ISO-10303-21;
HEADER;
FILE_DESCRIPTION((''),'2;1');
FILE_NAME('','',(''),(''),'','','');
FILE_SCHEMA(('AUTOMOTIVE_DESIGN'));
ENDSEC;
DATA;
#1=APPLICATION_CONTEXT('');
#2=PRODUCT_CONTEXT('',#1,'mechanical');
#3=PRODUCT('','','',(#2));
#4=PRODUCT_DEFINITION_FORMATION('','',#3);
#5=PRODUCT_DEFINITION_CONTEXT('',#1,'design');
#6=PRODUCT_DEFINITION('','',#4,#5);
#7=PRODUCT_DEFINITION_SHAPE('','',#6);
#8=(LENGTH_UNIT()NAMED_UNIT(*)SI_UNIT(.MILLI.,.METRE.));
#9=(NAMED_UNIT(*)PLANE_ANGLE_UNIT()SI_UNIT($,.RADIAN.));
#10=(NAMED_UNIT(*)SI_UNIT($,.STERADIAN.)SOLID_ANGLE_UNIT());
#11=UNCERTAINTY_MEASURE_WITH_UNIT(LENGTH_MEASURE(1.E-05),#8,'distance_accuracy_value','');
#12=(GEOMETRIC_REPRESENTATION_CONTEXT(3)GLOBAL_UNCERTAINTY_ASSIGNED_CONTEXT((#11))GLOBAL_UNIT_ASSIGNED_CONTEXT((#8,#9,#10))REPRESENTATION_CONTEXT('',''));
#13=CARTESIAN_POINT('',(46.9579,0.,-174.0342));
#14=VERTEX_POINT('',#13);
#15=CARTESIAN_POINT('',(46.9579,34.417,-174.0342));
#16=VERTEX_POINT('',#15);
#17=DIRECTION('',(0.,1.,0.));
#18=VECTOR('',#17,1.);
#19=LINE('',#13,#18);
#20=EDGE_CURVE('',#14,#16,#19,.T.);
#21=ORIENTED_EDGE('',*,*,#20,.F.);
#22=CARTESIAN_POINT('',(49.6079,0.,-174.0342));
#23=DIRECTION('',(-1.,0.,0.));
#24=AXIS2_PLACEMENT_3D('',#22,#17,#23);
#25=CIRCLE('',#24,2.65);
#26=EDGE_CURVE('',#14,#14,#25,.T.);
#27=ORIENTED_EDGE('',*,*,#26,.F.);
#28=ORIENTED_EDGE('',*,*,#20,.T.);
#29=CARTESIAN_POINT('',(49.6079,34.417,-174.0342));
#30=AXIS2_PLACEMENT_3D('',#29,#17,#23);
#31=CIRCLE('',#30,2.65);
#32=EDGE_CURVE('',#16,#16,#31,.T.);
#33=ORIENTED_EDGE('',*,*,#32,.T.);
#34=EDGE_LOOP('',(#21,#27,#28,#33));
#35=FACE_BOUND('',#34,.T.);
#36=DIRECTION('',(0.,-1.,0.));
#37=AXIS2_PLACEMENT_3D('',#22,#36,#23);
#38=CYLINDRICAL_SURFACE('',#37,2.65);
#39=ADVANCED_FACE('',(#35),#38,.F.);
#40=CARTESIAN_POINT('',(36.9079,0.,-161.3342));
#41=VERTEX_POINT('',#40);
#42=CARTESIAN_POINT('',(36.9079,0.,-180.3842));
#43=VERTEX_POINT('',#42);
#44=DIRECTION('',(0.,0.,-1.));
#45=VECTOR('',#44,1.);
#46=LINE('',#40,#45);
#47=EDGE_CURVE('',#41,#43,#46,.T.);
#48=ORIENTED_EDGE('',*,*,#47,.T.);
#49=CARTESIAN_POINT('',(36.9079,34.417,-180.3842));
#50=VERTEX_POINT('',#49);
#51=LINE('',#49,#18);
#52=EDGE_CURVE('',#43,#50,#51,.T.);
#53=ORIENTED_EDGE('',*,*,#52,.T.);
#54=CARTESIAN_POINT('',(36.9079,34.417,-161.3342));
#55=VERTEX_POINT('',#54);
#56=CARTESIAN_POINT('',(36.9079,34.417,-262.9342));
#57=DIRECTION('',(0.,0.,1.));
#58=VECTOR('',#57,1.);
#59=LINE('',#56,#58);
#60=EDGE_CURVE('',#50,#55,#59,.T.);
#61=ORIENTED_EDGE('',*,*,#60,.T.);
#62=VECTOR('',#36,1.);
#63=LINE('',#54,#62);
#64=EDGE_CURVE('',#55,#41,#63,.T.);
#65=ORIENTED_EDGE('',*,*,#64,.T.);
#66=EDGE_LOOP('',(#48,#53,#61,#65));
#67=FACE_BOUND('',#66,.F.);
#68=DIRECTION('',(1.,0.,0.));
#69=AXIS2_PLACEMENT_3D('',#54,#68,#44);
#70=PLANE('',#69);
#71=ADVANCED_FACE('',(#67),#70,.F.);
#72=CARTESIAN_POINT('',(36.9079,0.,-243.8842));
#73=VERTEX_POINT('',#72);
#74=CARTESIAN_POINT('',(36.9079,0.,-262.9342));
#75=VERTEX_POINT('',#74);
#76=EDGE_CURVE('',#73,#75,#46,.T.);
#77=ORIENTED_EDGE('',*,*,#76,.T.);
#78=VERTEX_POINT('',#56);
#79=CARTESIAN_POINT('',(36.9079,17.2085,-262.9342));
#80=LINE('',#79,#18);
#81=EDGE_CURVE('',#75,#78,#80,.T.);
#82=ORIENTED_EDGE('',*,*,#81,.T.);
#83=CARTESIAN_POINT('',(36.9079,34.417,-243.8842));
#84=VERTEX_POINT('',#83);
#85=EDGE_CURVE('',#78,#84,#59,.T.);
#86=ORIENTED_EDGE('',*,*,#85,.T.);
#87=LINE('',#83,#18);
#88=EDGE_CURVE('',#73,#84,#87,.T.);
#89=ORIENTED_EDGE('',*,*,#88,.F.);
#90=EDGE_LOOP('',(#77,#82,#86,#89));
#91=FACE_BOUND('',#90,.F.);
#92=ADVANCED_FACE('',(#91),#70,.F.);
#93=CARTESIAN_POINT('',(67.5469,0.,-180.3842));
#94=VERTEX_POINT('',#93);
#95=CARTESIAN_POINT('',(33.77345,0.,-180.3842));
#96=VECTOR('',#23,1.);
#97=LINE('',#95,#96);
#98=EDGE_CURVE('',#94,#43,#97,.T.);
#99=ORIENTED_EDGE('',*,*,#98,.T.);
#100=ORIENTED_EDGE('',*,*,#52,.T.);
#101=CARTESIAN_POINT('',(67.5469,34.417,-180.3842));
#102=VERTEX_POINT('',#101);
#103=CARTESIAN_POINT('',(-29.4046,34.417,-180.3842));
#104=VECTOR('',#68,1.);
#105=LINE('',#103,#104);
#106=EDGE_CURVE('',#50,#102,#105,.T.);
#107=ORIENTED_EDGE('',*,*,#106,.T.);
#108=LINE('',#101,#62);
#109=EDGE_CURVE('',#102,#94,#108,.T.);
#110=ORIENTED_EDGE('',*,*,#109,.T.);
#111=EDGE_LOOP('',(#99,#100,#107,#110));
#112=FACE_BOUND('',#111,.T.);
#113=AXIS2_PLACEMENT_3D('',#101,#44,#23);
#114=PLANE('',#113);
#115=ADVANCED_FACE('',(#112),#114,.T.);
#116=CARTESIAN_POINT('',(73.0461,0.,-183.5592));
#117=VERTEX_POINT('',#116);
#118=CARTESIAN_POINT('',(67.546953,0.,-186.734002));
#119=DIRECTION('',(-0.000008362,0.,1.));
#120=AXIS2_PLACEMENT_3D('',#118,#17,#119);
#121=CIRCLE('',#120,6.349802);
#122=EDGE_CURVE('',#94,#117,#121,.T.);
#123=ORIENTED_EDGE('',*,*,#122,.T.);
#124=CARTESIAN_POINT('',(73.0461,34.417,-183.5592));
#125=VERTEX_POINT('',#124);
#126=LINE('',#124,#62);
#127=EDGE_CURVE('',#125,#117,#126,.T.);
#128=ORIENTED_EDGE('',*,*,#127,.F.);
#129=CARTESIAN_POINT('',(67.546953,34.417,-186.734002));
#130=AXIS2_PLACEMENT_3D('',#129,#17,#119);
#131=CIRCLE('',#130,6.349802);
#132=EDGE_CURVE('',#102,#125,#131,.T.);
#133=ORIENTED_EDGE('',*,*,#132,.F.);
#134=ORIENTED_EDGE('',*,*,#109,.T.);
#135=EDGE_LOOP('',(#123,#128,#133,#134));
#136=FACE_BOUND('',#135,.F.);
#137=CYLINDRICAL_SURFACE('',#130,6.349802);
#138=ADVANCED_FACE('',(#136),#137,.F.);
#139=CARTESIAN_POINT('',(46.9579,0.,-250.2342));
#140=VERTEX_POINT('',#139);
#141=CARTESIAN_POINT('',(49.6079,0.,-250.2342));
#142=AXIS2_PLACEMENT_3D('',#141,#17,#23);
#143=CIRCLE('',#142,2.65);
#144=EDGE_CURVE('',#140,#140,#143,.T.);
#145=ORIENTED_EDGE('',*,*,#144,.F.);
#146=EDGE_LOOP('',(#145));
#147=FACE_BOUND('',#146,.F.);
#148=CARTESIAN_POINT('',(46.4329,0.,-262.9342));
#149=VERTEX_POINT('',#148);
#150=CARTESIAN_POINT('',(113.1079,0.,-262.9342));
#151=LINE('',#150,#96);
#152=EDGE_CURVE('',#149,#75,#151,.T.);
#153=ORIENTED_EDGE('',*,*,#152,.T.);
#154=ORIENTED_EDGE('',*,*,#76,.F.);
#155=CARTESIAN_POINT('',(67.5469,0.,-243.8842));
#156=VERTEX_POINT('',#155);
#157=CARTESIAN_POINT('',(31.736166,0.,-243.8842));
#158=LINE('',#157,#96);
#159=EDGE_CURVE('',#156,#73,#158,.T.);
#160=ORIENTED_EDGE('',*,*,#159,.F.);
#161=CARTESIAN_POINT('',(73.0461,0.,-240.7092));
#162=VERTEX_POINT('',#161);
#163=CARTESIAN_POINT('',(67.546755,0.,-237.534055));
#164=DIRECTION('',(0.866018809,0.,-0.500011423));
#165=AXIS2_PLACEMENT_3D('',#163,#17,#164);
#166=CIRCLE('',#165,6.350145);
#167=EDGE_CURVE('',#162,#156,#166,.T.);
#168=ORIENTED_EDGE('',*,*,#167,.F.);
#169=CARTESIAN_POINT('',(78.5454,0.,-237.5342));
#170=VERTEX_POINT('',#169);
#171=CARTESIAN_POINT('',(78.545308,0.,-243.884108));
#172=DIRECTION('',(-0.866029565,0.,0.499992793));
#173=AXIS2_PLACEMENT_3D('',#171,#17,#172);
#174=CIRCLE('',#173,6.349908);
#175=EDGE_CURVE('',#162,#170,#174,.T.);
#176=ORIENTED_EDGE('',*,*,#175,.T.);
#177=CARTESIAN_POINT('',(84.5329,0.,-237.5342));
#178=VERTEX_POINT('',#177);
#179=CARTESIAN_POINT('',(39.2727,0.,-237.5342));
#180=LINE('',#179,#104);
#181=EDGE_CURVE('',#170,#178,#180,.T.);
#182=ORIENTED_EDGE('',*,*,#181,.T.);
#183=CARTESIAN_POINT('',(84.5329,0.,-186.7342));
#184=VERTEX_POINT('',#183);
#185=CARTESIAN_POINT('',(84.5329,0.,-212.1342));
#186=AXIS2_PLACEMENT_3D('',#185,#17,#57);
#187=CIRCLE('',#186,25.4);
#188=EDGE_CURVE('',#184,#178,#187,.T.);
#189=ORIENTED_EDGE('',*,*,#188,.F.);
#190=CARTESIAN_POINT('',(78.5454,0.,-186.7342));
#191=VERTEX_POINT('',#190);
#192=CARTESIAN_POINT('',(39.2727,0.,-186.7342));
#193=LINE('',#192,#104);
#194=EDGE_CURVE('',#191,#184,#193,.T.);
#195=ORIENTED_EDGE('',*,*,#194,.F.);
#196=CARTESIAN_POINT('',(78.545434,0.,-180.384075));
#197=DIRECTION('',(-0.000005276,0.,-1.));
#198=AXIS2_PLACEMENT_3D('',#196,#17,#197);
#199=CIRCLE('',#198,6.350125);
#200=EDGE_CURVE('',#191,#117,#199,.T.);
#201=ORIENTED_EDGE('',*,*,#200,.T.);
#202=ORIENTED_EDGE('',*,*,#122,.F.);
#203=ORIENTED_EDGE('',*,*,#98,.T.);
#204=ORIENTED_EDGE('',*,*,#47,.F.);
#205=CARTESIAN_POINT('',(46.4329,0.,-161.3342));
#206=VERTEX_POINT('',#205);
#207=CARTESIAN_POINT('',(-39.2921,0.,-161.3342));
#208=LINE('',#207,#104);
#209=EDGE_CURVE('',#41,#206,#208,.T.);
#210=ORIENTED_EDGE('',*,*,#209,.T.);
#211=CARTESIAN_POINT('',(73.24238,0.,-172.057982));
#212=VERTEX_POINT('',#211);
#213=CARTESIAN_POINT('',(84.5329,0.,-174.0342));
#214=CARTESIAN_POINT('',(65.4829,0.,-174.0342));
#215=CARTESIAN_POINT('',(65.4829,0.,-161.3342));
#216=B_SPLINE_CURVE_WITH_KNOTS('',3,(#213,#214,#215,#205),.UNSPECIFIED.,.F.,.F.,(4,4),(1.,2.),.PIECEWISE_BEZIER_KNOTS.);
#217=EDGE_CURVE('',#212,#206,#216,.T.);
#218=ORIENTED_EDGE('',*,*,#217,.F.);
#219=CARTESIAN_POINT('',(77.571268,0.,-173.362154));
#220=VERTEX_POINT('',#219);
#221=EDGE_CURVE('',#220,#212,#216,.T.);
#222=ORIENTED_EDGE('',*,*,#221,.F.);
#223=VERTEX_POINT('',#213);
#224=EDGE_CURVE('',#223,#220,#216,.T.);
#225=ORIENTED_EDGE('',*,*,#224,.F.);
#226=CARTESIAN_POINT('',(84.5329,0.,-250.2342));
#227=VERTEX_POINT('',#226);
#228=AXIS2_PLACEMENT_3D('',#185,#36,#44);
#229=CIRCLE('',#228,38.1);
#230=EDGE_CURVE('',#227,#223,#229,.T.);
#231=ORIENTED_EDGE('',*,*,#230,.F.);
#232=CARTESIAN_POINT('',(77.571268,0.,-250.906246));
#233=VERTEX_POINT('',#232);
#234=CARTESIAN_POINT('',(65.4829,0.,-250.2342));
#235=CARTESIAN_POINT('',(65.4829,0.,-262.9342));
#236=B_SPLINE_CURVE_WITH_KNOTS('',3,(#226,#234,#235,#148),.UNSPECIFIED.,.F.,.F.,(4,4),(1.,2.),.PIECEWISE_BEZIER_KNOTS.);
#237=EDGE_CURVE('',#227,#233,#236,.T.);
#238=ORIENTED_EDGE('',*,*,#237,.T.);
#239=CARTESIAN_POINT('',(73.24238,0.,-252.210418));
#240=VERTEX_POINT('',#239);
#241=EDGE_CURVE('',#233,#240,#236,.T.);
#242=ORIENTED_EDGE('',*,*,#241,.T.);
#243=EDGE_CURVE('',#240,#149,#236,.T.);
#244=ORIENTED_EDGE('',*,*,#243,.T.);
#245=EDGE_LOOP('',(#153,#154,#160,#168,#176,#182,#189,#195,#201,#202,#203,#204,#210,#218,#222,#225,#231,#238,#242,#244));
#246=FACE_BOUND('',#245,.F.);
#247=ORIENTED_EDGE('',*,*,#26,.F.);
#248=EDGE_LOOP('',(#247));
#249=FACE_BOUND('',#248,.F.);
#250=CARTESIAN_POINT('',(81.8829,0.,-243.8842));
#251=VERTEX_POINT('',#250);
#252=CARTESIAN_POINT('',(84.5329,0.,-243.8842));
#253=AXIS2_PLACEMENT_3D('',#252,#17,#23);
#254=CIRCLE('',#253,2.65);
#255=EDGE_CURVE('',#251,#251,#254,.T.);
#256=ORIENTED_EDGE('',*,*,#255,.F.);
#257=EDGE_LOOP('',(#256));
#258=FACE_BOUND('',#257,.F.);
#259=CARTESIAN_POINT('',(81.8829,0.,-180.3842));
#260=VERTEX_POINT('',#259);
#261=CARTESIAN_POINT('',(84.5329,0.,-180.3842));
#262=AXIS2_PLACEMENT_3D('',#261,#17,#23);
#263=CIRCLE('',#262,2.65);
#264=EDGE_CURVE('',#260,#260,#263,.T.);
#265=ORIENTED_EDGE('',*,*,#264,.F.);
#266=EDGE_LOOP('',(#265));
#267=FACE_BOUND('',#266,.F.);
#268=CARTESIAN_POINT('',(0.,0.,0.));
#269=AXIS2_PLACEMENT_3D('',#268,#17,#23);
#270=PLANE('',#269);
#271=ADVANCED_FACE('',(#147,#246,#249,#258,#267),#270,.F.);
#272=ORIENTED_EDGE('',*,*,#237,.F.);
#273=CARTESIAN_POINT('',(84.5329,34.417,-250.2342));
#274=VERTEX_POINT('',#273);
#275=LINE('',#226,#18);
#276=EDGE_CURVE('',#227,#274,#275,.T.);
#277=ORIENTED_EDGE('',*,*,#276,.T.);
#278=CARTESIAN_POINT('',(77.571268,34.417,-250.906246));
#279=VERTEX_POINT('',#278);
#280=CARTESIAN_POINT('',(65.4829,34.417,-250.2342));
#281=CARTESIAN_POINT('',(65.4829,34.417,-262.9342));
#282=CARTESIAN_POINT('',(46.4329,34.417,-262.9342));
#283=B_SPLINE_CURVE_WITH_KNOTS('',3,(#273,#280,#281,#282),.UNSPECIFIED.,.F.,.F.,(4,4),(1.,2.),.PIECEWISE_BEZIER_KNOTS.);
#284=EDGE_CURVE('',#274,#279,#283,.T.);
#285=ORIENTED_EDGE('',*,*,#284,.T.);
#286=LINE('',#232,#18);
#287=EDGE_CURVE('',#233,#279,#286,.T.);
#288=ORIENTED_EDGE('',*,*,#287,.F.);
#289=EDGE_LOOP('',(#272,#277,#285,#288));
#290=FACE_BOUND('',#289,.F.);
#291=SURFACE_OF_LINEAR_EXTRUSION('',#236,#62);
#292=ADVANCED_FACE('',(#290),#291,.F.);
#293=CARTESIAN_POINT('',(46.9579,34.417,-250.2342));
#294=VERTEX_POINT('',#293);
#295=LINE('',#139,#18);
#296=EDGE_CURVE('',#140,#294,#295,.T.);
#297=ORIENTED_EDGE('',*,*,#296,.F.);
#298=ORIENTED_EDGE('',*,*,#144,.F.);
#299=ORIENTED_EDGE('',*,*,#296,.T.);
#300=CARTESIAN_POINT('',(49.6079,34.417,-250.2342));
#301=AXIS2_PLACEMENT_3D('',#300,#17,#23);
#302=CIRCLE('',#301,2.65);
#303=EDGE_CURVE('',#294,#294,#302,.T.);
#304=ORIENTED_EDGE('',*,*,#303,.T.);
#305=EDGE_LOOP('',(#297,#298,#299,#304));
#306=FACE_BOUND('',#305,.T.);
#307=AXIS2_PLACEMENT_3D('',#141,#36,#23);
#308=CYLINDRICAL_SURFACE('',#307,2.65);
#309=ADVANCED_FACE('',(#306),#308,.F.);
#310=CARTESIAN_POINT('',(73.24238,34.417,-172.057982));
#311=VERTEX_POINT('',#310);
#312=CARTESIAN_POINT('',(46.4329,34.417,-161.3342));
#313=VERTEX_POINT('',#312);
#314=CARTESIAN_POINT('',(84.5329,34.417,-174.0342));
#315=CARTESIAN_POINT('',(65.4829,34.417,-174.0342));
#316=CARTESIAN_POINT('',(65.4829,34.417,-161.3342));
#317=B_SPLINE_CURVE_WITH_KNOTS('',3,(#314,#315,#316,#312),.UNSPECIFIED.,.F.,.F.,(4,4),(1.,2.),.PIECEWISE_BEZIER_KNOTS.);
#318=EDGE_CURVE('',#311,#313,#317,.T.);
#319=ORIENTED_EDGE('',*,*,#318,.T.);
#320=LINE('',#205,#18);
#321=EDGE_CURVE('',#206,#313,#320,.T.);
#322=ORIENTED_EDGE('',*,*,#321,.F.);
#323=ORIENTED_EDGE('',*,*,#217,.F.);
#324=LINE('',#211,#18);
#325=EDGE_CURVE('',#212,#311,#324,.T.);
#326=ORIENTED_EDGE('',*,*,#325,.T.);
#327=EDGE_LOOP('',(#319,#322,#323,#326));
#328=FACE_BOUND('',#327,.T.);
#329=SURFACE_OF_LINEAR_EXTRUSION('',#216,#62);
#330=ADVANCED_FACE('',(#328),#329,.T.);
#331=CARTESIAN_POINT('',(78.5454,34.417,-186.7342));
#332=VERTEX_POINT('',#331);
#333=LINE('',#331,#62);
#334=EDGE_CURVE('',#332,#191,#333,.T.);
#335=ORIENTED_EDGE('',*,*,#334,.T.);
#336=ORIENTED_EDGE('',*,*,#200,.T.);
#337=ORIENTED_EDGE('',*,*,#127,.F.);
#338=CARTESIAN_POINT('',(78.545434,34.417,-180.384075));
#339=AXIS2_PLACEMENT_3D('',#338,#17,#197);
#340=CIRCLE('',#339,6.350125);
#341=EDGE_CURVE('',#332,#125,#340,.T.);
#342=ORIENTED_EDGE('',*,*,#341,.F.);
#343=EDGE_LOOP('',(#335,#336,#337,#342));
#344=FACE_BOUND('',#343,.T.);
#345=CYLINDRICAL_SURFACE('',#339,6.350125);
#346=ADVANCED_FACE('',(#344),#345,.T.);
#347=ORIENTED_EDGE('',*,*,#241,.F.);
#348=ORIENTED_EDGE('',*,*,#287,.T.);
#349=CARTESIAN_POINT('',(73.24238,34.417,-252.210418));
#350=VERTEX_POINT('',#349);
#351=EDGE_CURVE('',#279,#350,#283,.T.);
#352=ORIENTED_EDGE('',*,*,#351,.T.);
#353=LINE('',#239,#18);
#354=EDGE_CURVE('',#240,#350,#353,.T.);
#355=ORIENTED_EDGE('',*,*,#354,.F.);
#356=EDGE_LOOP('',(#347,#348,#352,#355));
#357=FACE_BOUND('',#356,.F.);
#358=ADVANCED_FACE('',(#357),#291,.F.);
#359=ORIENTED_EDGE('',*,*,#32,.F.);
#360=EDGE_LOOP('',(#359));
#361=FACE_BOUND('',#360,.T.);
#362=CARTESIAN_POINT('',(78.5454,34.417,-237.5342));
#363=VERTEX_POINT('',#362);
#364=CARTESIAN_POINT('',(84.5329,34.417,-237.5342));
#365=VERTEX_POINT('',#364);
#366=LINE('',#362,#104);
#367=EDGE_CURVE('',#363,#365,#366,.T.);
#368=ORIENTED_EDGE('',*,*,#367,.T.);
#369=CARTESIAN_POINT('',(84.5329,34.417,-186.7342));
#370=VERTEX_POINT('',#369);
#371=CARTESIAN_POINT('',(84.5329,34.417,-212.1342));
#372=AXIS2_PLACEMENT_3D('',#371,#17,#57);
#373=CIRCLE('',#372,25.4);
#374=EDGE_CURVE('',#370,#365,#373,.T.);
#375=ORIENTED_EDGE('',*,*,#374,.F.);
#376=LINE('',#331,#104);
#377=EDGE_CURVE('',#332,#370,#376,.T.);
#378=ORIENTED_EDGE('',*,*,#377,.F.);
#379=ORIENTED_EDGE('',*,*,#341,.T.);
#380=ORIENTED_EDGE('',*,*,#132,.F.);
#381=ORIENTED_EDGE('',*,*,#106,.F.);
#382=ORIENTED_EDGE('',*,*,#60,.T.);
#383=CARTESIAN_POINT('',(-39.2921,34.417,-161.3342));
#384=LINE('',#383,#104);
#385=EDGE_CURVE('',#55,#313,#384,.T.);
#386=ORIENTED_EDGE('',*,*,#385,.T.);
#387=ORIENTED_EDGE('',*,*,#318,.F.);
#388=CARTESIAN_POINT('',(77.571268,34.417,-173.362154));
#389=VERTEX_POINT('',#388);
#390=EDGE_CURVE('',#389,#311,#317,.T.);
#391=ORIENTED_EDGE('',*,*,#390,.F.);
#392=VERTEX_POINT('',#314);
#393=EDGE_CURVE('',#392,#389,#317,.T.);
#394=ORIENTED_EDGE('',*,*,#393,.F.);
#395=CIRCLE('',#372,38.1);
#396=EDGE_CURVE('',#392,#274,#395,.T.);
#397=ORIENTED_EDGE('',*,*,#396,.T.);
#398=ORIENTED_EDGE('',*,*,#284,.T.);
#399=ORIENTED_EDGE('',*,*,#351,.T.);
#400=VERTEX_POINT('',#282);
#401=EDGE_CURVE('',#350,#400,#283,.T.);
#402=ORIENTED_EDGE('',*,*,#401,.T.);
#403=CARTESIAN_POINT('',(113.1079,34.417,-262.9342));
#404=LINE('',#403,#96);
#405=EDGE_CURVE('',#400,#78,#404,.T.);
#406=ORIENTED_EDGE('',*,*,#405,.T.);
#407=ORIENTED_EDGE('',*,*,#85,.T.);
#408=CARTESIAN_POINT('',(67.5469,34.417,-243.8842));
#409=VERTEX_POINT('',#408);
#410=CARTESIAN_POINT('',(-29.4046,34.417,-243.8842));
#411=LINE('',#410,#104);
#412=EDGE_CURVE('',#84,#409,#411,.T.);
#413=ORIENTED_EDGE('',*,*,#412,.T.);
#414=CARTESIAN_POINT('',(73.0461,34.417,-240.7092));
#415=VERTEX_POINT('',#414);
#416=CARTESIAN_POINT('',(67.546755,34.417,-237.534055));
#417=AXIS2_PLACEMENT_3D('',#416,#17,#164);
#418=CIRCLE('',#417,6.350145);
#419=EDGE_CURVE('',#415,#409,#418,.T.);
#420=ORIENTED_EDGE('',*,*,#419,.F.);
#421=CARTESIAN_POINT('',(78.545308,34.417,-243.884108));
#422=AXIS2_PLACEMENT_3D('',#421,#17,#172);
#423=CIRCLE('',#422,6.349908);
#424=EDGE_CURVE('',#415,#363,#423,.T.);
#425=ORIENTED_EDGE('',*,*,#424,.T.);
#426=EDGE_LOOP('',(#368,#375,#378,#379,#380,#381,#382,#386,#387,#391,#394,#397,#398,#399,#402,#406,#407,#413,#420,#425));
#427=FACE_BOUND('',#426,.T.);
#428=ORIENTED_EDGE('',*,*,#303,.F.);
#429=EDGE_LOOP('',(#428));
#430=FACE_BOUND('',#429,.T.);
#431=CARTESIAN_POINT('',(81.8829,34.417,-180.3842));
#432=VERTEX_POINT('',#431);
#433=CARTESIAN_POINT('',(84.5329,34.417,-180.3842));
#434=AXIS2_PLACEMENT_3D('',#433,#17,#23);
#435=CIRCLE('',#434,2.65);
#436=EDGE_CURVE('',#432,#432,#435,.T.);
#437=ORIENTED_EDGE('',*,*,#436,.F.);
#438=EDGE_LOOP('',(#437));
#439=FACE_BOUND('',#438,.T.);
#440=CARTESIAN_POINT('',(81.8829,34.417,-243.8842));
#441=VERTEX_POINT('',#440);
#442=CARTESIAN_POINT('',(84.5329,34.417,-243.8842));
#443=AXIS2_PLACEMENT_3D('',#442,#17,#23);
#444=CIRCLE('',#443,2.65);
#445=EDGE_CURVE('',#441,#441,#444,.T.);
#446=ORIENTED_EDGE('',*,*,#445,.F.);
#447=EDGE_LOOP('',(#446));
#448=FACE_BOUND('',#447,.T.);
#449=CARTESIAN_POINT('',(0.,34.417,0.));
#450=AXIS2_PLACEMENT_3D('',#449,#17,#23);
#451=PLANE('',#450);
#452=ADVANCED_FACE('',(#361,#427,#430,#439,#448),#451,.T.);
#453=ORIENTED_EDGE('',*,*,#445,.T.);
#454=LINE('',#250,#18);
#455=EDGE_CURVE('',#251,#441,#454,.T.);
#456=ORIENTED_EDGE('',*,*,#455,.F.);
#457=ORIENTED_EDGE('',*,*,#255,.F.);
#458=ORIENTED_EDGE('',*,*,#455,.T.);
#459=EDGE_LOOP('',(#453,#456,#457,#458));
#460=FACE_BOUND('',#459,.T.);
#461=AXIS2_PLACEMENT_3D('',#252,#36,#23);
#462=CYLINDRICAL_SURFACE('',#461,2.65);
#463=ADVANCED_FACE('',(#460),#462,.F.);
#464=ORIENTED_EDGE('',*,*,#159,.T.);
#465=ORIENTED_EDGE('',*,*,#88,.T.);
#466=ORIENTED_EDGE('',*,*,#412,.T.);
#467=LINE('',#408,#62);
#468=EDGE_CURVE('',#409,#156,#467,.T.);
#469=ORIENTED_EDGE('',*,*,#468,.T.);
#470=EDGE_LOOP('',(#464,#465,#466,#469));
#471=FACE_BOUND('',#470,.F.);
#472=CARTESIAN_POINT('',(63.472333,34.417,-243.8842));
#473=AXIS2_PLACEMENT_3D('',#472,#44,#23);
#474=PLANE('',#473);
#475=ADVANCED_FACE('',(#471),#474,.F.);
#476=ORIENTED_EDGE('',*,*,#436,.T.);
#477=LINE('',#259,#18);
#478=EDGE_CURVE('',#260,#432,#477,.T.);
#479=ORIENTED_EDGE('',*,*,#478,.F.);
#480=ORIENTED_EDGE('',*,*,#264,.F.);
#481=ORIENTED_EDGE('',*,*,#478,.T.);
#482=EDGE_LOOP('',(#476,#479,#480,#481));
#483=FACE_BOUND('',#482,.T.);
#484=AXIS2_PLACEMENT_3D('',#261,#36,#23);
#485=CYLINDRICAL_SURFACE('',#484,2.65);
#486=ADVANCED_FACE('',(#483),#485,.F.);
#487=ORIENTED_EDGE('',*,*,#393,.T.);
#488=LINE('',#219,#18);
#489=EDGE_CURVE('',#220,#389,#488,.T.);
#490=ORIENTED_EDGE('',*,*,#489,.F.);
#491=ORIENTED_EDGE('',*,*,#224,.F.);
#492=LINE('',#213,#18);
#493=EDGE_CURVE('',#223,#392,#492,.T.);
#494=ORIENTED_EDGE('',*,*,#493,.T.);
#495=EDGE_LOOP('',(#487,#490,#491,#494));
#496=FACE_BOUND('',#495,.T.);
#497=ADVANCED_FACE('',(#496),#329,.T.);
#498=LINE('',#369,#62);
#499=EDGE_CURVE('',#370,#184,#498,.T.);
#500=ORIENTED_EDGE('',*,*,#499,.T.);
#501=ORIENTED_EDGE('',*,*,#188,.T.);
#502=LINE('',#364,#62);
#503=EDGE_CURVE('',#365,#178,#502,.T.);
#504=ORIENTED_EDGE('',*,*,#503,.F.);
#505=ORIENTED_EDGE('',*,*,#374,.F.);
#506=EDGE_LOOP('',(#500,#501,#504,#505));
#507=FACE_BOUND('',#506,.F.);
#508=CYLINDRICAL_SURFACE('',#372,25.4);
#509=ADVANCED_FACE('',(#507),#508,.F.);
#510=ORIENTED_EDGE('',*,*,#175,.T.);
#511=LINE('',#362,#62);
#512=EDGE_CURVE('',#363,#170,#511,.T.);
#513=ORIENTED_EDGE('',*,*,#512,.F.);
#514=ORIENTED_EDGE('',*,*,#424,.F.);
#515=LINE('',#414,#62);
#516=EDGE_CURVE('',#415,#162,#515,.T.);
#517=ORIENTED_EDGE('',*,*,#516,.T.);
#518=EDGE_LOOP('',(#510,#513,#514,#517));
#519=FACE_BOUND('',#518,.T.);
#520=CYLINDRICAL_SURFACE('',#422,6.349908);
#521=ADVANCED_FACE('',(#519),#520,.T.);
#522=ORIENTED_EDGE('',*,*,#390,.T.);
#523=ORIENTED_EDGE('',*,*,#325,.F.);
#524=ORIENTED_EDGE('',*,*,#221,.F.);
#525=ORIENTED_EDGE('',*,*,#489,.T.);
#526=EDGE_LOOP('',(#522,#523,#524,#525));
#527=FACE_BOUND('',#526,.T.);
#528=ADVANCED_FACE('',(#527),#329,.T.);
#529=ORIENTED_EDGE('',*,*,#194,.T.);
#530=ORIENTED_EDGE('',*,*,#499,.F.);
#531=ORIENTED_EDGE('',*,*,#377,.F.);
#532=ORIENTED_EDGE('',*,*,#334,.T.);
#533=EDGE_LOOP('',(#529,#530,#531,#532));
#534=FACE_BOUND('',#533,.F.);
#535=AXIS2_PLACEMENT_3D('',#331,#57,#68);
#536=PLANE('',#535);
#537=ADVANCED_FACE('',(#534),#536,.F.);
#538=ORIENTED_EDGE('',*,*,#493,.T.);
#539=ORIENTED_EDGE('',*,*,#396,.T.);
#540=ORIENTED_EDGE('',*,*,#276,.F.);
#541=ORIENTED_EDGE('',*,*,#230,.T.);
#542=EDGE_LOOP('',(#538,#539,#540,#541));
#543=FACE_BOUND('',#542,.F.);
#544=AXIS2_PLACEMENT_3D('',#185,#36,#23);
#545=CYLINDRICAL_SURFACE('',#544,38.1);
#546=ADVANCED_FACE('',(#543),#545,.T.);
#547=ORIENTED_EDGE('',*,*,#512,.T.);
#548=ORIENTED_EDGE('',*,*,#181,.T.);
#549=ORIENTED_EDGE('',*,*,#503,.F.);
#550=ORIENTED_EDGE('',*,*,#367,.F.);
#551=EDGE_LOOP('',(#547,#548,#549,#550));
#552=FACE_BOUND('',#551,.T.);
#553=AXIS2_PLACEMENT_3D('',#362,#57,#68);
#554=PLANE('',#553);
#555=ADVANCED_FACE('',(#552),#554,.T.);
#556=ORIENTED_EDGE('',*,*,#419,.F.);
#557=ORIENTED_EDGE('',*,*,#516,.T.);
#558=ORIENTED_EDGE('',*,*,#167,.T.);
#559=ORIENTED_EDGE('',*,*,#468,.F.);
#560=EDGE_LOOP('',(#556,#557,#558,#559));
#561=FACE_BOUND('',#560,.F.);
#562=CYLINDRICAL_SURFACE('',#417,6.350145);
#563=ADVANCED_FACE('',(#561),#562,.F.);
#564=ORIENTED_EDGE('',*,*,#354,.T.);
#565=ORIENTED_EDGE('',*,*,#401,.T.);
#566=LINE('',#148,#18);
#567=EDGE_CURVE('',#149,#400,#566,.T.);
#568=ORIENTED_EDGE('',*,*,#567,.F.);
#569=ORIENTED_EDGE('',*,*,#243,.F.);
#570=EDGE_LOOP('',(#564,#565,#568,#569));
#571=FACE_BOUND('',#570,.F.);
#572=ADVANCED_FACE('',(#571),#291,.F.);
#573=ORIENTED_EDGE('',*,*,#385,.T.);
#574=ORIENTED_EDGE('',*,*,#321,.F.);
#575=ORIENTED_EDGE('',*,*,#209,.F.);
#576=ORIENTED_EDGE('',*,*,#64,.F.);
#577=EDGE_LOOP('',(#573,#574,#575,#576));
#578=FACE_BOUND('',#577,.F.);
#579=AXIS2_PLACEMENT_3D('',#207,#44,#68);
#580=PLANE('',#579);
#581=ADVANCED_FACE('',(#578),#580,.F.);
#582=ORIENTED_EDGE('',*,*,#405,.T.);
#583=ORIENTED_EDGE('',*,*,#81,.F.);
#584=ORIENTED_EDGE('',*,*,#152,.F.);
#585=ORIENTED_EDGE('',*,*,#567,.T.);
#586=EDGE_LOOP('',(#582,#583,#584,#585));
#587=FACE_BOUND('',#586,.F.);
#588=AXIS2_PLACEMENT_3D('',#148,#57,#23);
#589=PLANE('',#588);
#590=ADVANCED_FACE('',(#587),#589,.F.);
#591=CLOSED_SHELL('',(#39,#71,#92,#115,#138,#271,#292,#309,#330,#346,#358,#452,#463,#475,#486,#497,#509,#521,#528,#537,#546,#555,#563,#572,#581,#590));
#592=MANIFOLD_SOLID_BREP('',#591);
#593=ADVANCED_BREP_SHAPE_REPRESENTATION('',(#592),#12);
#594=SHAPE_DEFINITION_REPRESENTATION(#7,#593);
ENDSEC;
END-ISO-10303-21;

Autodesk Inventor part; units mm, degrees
ref_plane "YZ Plane" through (0, 0, 0) normal (1, 0, 0) x (0, 1, 0)
ref_plane "XZ Plane" through (0, 0, 0) normal (0, 1, 0) x (-1, 0, 0)
ref_plane "XY Plane" through (0, 0, 0) normal (0, 0, 1) x (1, 0, 0)
sketch "Sketch1" plane through (0, 0, 0) normal (0, 1, 0) x (-1, 0, 0)
  line L0 (99.4671, -212.1342) -> (-395.7488, 283.0816) construction
  circle A0 centre (-24.2079, -174.0342) radius 2.65
  circle A1 centre (-21.0329, -212.1342) radius 6.35
  circle A2 centre (1.1921, -174.0342) radius 2.65
  circle A3 centre (10.7171, -212.1342) radius 14.2875
  circle A4 centre (26.5921, -174.0342) radius 2.65
  line L1 (-84.5329, -212.1342) -> (10.7171, -212.1342) construction
  line L2 (39.2921, -161.3342) -> (-113.1079, -161.3342)
  line L3 (-113.1079, -262.9342) -> (39.2921, -262.9342)
  circle A5 centre (-49.6079, -174.0342) radius 2.65
  circle A6 centre (-52.7829, -212.1342) radius 6.35
  circle A7 centre (-75.0079, -174.0342) radius 2.65
  circle A8 centre (-75.0079, -250.2342) radius 2.65
  circle A9 centre (-84.5329, -212.1342) radius 14.2875
  circle A10 centre (-100.4079, -174.0342) radius 2.65
  circle A11 centre (-100.4079, -250.2342) radius 2.65
  circle A12 centre (-49.6079, -250.2342) radius 2.65
  circle A13 centre (1.1921, -250.2342) radius 2.65
  circle A14 centre (26.5921, -250.2342) radius 2.65
  circle A15 centre (-24.2079, -250.2342) radius 2.65
  line L4 (39.2921, -262.9342) -> (39.2921, -161.3342)
  line L5 (39.2921, -237.5342) -> (395.5271, -237.5342)
  line L6 (74.0671, -186.7342) -> (39.2921, -186.7342)
  line L7 (-113.1079, -161.3342) -> (-113.1079, -262.9342)
  spline S0 degree 3 poles (-84.5329, -174.0342) (-65.4829, -174.0342) (-65.4829, -161.3342) (-46.4329, -161.3342) knots 1 1 1 1 2 2 2 2
  line L8 (-84.5329, -174.0342) -> (-65.4829, -174.0342) construction
  line L9 (-65.4829, -174.0342) -> (-65.4829, -161.3342) construction
  line L10 (-65.4829, -161.3342) -> (-46.4329, -161.3342) construction
  circle A16 centre (-84.5329, -212.1342) radius 38.1
  circle A17 centre (-84.5329, -180.3842) radius 2.65
  spline S1 degree 3 poles (-84.5329, -250.2342) (-65.4829, -250.2342) (-65.4829, -262.9342) (-46.4329, -262.9342) knots 1 1 1 1 2 2 2 2
  line L11 (-84.5329, -250.2342) -> (-65.4829, -250.2342) construction
  line L12 (-65.4829, -250.2342) -> (-65.4829, -262.9342) construction
  line L13 (-65.4829, -262.9342) -> (-46.4329, -262.9342) construction
  circle A18 centre (-84.5329, -243.8842) radius 2.65
  point P0 (0, 0)
  point P1 (-36.9079, -262.9342)
  point P2 (-36.9079, -212.1342)
  point P3 (39.2921, -212.1342)
  point P4 (-46.4329, -262.9342)
  point P5 (-46.4329, -161.3342)
  dimension "d0" = 31.75
extrude "Extrusion1" add sketch "Sketch1" along normal blind 34.417 contours L4 L3 S1 A8 A16 A7 S0 L2 | A7 A16 S0 | A16 A7 A8 L7 | L7 A16 | A7 A16 S0 | A7 A16 | A16 A8 S1 | S1 A8 A16 | A8 A16
sketch "Sketch2" plane through (0, 34.417, 0) normal (0, 1, 0) x (1, 0, 0)
  circle A0 centre (49.6079, 174.0342) radius 2.65 projected
  circle A1 centre (49.6079, 174.0342) radius 2.65
  line L0 (49.6079, 174.0342) -> (36.9079, 174.0342)
  line L1 (-39.2921, 161.3342) -> (46.4329, 161.3342) projected
  line L2 (36.9079, 161.3342) -> (36.9079, 271.4653)
  line L3 (36.9079, 271.4653) -> (-75.2217, 284.061)
  line L4 (-75.2217, 284.061) -> (-39.9967, 13.0358)
  line L5 (-39.9967, 13.0358) -> (36.9079, 161.3342)
  point P0 (0, 0)
  dimension "d3" = 12.7
extrude "Extrusion2" cut sketch "Sketch2" against normal through all contours L2 L5 L4 L3
sketch "Sketch3" plane through (0, 34.417, 0) normal (0, 1, 0) x (1, 0, 0)
  line L0 (26.0555, 454.6039) -> (26.0555, 378.7664)
  line L1 (26.0555, 454.6039) -> (26.0555, 378.7664)
  arc A0 (38.7555, 340.6664) -> (114.9555, 340.6664) centre (76.8555, 340.6664) ccw
  circle A1 centre (76.8555, 340.6664) radius 38.1
  line L2 (26.0555, 378.7664) -> (45.1055, 378.7664)
  line L3 (45.1055, 357.6525) -> (45.1055, 454.6039)
  arc A2 (51.4555, 340.6664) -> (102.2555, 340.6664) centre (76.8555, 340.6664) ccw
  line L4 (45.1055, 378.7664) -> (51.4555, 378.7664)
  line L5 (51.4555, 346.6539) -> (51.4555, 340.6664)
  line L6 (45.1055, 353.0039) -> (45.1055, 353.0039)
  arc A3 (51.4555, 346.6539) -> (48.2805, 352.1532) centre (45.1055, 346.6539) ccw
  arc A4 (45.1055, 357.6525) -> (48.2805, 352.1532) centre (51.4555, 357.6525) ccw
  line L7 (108.6055, 357.6525) -> (108.6055, 454.6039)
  arc A5 (105.4305, 352.1532) -> (102.2555, 346.6539) centre (108.6055, 346.6539) ccw
  arc A6 (105.4305, 352.1532) -> (108.6055, 357.6525) centre (102.2555, 357.6525) ccw
  line L8 (102.2555, 346.6539) -> (102.2555, 340.6664)
  line L9 (127.6555, 378.7664) -> (127.6555, 454.8164)
  line L10 (127.6555, 454.8164) -> (127.6555, 337.8192)
  spline S0 degree 3 poles (26.0555, 378.7664) (26.0555, 359.7164) (38.7555, 359.7164) (38.7555, 340.6664) knots 1 1 1 1 2 2 2 2
  line L11 (26.0555, 378.7664) -> (26.0555, 359.7164) construction
  line L12 (26.0555, 359.7164) -> (38.7555, 359.7164) construction
  line L13 (38.7555, 359.7164) -> (38.7555, 340.6664) construction
  line L14 (76.8555, 340.6664) -> (76.8555, 373.056)
  spline S1 degree 3 poles (127.6555, 378.7664) (127.6555, 359.7164) (114.9555, 359.7164) (114.9555, 340.6664) knots 1 1 1 1 2 2 2 2
  line L15 (127.6555, 378.7664) -> (127.6555, 359.7164) construction
  line L16 (127.6555, 359.7164) -> (114.9555, 359.7164) construction
  line L17 (114.9555, 359.7164) -> (114.9555, 340.6664) construction
  circle A7 centre (38.7555, 400.9914) radius 2.65
  circle A8 centre (38.7555, 400.9914) radius 2.65
  circle A9 centre (38.7555, 375.5914) radius 2.65
  circle A10 centre (38.7555, 375.5914) radius 2.65
  circle A11 centre (45.1055, 340.6664) radius 2.65
  circle A12 centre (45.1055, 340.6664) radius 2.65
  circle A13 centre (108.6055, 340.6664) radius 2.65
  circle A14 centre (108.6055, 340.6664) radius 2.65
  circle A15 centre (114.9555, 375.5914) radius 2.65
  circle A16 centre (114.9555, 375.5914) radius 2.65
  circle A17 centre (114.9555, 400.9914) radius 2.65
  circle A18 centre (114.9555, 400.9914) radius 2.65
  circle A19 centre (76.8555, 308.9164) radius 2.65
  circle A20 centre (76.8555, 308.9164) radius 2.65
  line L18 (70.868, 315.2664) -> (76.8555, 315.2664)
  arc A21 (70.868, 315.2664) -> (65.3687, 312.0914) centre (70.868, 308.9164) ccw
  line L19 (64.518, 308.9164) -> (64.518, 308.9164)
  arc A22 (59.8694, 308.9164) -> (65.3687, 312.0914) centre (59.8694, 315.2664) ccw
  line L20 (57.8055, 302.5664) -> (76.8555, 302.5664) construction
  spline S2 degree 3 poles (38.7555, 289.8664) (57.8055, 289.8664) (57.8055, 302.5664) (76.8555, 302.5664) knots 1 1 1 1 2 2 2 2
  line L21 (38.7555, 289.8664) -> (57.8055, 289.8664) construction
  line L22 (57.8055, 289.8664) -> (57.8055, 302.5664) construction
  line L23 (38.7555, 308.9164) -> (38.7555, 315.2664)
  line L24 (38.7555, 289.8664) -> (38.7555, 308.9164)
  circle A23 centre (41.9305, 302.5664) radius 2.65
  line L25 (-37.082, 289.8664) -> (38.7555, 289.8664)
  line L26 (-37.082, 289.8664) -> (38.7555, 289.8664)
  line L27 (59.8694, 308.9164) -> (-37.082, 308.9164)
  line L28 (59.8694, 372.4164) -> (-37.082, 372.4164)
  circle A24 centre (16.5305, 378.7664) radius 2.65
  circle A25 centre (16.5305, 378.7664) radius 2.65
  line L29 (-37.2945, 391.4664) -> (79.7027, 391.4664)
  line L30 (38.7555, 391.4664) -> (-37.2945, 391.4664)
  circle A26 centre (16.5305, 302.5664) radius 2.65
  circle A27 centre (16.5305, 302.5664) radius 2.65
  circle A28 centre (41.9305, 302.5664) radius 2.65
  circle A29 centre (41.9305, 378.7664) radius 2.65
  circle A30 centre (41.9305, 378.7664) radius 2.65
  line L31 (38.7555, 391.4664) -> (57.8055, 391.4664) construction
  spline S3 degree 3 poles (38.7555, 391.4664) (57.8055, 391.4664) (57.8055, 378.7664) (76.8555, 378.7664) knots 1 1 1 1 2 2 2 2
  line L32 (57.8055, 391.4664) -> (57.8055, 378.7664) construction
  line L33 (57.8055, 378.7664) -> (76.8555, 378.7664) construction
  arc A31 (65.3687, 369.2414) -> (59.8694, 372.4164) centre (59.8694, 366.0664) ccw
  arc A32 (65.3687, 369.2414) -> (70.868, 366.0664) centre (70.868, 372.4164) ccw
  line L34 (70.868, 366.0664) -> (76.8555, 366.0664)
  circle A33 centre (76.8555, 372.4164) radius 2.65
  circle A34 centre (76.8555, 372.4164) radius 2.65
  arc A35 (76.8555, 302.5664) -> (76.8555, 378.7664) centre (76.8555, 340.6664) ccw
  circle A36 centre (76.8555, 340.6664) radius 38.1
  line L35 (76.8555, 340.6664) -> (44.4659, 340.6664)
  arc A37 (76.8555, 315.2664) -> (76.8555, 366.0664) centre (76.8555, 340.6664) ccw
  circle A38 centre (84.5329, 212.1342) radius 14.2875 projected
  circle A39 centre (84.5329, 212.1342) radius 14.2875
  circle A40 centre (52.7829, 212.1342) radius 2.65
  circle A41 centre (52.7829, 212.1342) radius 2.65
  line L36 (59.1329, 218.1218) -> (59.1329, 212.1342)
  arc A42 (59.1329, 218.1218) -> (55.9579, 223.6211) centre (52.7829, 218.1218) ccw
  line L37 (52.7829, 224.4718) -> (52.7829, 224.4718)
  arc A43 (52.7829, 229.1203) -> (55.9579, 223.6211) centre (59.1329, 229.1203) ccw
  line L38 (46.4329, 231.1842) -> (46.4329, 212.1342) construction
  spline S4 degree 3 poles (33.7329, 250.2342) (33.7329, 231.1842) (46.4329, 231.1842) (46.4329, 212.1342) knots 1 1 1 1 2 2 2 2
  line L39 (33.7329, 250.2342) -> (33.7329, 231.1842) construction
  line L40 (33.7329, 231.1842) -> (46.4329, 231.1842) construction
  line L41 (52.7829, 250.2342) -> (59.1329, 250.2342)
  line L42 (33.7329, 250.2342) -> (52.7829, 250.2342)
  circle A44 centre (46.4329, 247.0592) radius 2.65
  line L43 (33.7329, 326.0718) -> (33.7329, 250.2342)
  line L44 (33.7329, 326.0718) -> (33.7329, 250.2342)
  line L45 (52.7829, 229.1203) -> (52.7829, 326.0718)
  line L46 (116.2829, 229.1203) -> (116.2829, 326.0718)
  circle A45 centre (122.6329, 272.4592) radius 2.65
  circle A46 centre (122.6329, 272.4592) radius 2.65
  line L47 (135.3329, 326.2842) -> (135.3329, 209.2871)
  line L48 (135.3329, 250.2342) -> (135.3329, 326.2842)
  circle A47 centre (46.4329, 272.4592) radius 2.65
  circle A48 centre (46.4329, 272.4592) radius 2.65
  circle A49 centre (46.4329, 247.0592) radius 2.65
  circle A50 centre (122.6329, 247.0592) radius 2.65
  circle A51 centre (122.6329, 247.0592) radius 2.65
  line L49 (135.3329, 250.2342) -> (135.3329, 231.1842) construction
  spline S5 degree 3 poles (135.3329, 250.2342) (135.3329, 231.1842) (122.6329, 231.1842) (122.6329, 212.1342) knots 1 1 1 1 2 2 2 2
  line L50 (135.3329, 231.1842) -> (122.6329, 231.1842) construction
  line L51 (122.6329, 231.1842) -> (122.6329, 212.1342) construction
  arc A52 (113.1079, 223.6211) -> (116.2829, 229.1203) centre (109.9329, 229.1203) ccw
  arc A53 (113.1079, 223.6211) -> (109.9329, 218.1218) centre (116.2829, 218.1218) ccw
  line L52 (109.9329, 218.1218) -> (109.9329, 212.1342)
  circle A54 centre (116.2829, 212.1342) radius 2.65
  circle A55 centre (116.2829, 212.1342) radius 2.65
  arc A56 (46.4329, 212.1342) -> (122.6329, 212.1342) centre (84.5329, 212.1342) ccw
  circle A57 centre (84.5329, 212.1342) radius 38.1
  line L53 (84.5329, 212.1342) -> (84.5329, 244.5238)
  arc A58 (59.1329, 212.1342) -> (109.9329, 212.1342) centre (84.5329, 212.1342) ccw
  line L54 (78.5454, 237.5342) -> (84.5329, 237.5342)
  arc A59 (73.0461, 240.7092) -> (78.5454, 237.5342) centre (78.5454, 243.8842) ccw
  line L55 (84.5329, 212.1342) -> (52.1434, 212.1342)
  arc A60 (84.5329, 186.7342) -> (84.5329, 237.5342) centre (84.5329, 212.1342) ccw
  circle A61 centre (84.5329, 212.1342) radius 38.1
  arc A62 (84.5329, 174.0342) -> (84.5329, 250.2342) centre (84.5329, 212.1342) ccw
  line L56 (78.5454, 186.7342) -> (84.5329, 186.7342)
  arc A63 (78.5454, 186.7342) -> (73.0461, 183.5592) centre (78.5454, 180.3842) ccw
  line L57 (72.1954, 180.3842) -> (72.1954, 180.3842)
  arc A64 (67.5469, 180.3842) -> (73.0461, 183.5592) centre (67.5469, 186.7342) ccw
  circle A65 centre (84.5329, 180.3842) radius 2.65
  circle A66 centre (84.5329, 180.3842) radius 2.65
  line L58 (65.4829, 174.0342) -> (84.5329, 174.0342) construction
  spline S6 degree 3 poles (46.4329, 161.3342) (65.4829, 161.3342) (65.4829, 174.0342) (84.5329, 174.0342) knots 1 1 1 1 2 2 2 2
  line L59 (46.4329, 161.3342) -> (65.4829, 161.3342) construction
  line L60 (65.4829, 161.3342) -> (65.4829, 174.0342) construction
  line L61 (46.4329, 180.3842) -> (46.4329, 186.7342)
  circle A67 centre (84.5329, 243.8842) radius 2.65
  circle A68 centre (84.5329, 243.8842) radius 2.65
  line L62 (65.4829, 250.2342) -> (84.5329, 250.2342) construction
  spline S7 degree 3 poles (46.4329, 262.9342) (65.4829, 262.9342) (65.4829, 250.2342) (84.5329, 250.2342) knots 1 1 1 1 2 2 2 2
  line L63 (46.4329, 262.9342) -> (65.4829, 262.9342) construction
  line L64 (65.4829, 262.9342) -> (65.4829, 250.2342) construction
  circle A69 centre (49.6079, 250.2342) radius 2.65
  circle A70 centre (49.6079, 250.2342) radius 2.65
  arc A71 (73.0461, 240.7092) -> (67.5469, 243.8842) centre (67.5469, 237.5342) ccw
  line L65 (46.4329, 161.3342) -> (46.4329, 180.3842)
  circle A72 centre (49.6079, 174.0342) radius 2.65
  line L66 (-29.4046, 161.3342) -> (46.4329, 161.3342)
  line L67 (-29.4046, 161.3342) -> (46.4329, 161.3342)
  line L68 (67.5469, 180.3842) -> (-29.4046, 180.3842)
  line L69 (67.5469, 243.8842) -> (-29.4046, 243.8842)
  circle A73 centre (24.2079, 250.2342) radius 2.65
  circle A74 centre (24.2079, 250.2342) radius 2.65
  line L70 (-29.6171, 262.9342) -> (87.3801, 262.9342)
  line L71 (46.4329, 262.9342) -> (-29.6171, 262.9342)
  circle A75 centre (49.6079, 174.0342) radius 2.65
  circle A76 centre (24.2079, 174.0342) radius 2.65
  circle A77 centre (24.2079, 174.0342) radius 2.65
  line L72 (-29.4046, 180.3842) -> (-29.4046, 243.8842)
  point P0 (0, 0)
  point P1 (161.6667, 205.692)
  point P2 (36.9079, 161.3342)
  point P3 (71.58, 306.9082)
  point P4 (46.4329, 161.3342)
  point P5 (110.6137, 335.3909)
  point P6 (79.2575, 178.376)
  point P7 (118.2912, 206.8588)
  dimension "d9" = 19.05
  dimension "d10" = 12.7
  dimension "d11" = 76.2
  dimension "d12" = 101.6
  dimension "d13" = 6.35
  dimension "d14" = 19.05
  dimension "d15" = 19.05
  dimension "d16" = 19.05
  dimension "d17" = 12.7
  dimension "d18" = 76.2
  dimension "d19" = 101.6
  dimension "d20" = 6.35
  dimension "d21" = 19.05
  dimension "d22" = 19.05
  dimension "d23" = 19.05
  dimension "d24" = 12.7
  dimension "d25" = 76.2
  dimension "d26" = 101.6
  dimension "d27" = 6.35
  dimension "d28" = 19.05
  dimension "d29" = 19.05
  dimension "d30" = 19.05
  dimension "d31" = 12.7
  dimension "d32" = 76.2
  dimension "d33" = 101.6
  dimension "d34" = 6.35
  dimension "d35" = 19.05
  dimension "d36" = 19.05
extrude "Extrusion3" cut sketch "Sketch3" against normal through all contours L69 A57 L45 | L45 A57 S4 L69 | L69 A71 A59 L54 L53 A38 L55 L36 A42 A43 L45 A57 | S4 A56 L68 L72 L69 | L45 A43 A42 L36 A58 L56 A63 A64 L68 A56 A57 | A58 L55 A38 L53 A60
properties part number "L1 Gearbox Cover"
